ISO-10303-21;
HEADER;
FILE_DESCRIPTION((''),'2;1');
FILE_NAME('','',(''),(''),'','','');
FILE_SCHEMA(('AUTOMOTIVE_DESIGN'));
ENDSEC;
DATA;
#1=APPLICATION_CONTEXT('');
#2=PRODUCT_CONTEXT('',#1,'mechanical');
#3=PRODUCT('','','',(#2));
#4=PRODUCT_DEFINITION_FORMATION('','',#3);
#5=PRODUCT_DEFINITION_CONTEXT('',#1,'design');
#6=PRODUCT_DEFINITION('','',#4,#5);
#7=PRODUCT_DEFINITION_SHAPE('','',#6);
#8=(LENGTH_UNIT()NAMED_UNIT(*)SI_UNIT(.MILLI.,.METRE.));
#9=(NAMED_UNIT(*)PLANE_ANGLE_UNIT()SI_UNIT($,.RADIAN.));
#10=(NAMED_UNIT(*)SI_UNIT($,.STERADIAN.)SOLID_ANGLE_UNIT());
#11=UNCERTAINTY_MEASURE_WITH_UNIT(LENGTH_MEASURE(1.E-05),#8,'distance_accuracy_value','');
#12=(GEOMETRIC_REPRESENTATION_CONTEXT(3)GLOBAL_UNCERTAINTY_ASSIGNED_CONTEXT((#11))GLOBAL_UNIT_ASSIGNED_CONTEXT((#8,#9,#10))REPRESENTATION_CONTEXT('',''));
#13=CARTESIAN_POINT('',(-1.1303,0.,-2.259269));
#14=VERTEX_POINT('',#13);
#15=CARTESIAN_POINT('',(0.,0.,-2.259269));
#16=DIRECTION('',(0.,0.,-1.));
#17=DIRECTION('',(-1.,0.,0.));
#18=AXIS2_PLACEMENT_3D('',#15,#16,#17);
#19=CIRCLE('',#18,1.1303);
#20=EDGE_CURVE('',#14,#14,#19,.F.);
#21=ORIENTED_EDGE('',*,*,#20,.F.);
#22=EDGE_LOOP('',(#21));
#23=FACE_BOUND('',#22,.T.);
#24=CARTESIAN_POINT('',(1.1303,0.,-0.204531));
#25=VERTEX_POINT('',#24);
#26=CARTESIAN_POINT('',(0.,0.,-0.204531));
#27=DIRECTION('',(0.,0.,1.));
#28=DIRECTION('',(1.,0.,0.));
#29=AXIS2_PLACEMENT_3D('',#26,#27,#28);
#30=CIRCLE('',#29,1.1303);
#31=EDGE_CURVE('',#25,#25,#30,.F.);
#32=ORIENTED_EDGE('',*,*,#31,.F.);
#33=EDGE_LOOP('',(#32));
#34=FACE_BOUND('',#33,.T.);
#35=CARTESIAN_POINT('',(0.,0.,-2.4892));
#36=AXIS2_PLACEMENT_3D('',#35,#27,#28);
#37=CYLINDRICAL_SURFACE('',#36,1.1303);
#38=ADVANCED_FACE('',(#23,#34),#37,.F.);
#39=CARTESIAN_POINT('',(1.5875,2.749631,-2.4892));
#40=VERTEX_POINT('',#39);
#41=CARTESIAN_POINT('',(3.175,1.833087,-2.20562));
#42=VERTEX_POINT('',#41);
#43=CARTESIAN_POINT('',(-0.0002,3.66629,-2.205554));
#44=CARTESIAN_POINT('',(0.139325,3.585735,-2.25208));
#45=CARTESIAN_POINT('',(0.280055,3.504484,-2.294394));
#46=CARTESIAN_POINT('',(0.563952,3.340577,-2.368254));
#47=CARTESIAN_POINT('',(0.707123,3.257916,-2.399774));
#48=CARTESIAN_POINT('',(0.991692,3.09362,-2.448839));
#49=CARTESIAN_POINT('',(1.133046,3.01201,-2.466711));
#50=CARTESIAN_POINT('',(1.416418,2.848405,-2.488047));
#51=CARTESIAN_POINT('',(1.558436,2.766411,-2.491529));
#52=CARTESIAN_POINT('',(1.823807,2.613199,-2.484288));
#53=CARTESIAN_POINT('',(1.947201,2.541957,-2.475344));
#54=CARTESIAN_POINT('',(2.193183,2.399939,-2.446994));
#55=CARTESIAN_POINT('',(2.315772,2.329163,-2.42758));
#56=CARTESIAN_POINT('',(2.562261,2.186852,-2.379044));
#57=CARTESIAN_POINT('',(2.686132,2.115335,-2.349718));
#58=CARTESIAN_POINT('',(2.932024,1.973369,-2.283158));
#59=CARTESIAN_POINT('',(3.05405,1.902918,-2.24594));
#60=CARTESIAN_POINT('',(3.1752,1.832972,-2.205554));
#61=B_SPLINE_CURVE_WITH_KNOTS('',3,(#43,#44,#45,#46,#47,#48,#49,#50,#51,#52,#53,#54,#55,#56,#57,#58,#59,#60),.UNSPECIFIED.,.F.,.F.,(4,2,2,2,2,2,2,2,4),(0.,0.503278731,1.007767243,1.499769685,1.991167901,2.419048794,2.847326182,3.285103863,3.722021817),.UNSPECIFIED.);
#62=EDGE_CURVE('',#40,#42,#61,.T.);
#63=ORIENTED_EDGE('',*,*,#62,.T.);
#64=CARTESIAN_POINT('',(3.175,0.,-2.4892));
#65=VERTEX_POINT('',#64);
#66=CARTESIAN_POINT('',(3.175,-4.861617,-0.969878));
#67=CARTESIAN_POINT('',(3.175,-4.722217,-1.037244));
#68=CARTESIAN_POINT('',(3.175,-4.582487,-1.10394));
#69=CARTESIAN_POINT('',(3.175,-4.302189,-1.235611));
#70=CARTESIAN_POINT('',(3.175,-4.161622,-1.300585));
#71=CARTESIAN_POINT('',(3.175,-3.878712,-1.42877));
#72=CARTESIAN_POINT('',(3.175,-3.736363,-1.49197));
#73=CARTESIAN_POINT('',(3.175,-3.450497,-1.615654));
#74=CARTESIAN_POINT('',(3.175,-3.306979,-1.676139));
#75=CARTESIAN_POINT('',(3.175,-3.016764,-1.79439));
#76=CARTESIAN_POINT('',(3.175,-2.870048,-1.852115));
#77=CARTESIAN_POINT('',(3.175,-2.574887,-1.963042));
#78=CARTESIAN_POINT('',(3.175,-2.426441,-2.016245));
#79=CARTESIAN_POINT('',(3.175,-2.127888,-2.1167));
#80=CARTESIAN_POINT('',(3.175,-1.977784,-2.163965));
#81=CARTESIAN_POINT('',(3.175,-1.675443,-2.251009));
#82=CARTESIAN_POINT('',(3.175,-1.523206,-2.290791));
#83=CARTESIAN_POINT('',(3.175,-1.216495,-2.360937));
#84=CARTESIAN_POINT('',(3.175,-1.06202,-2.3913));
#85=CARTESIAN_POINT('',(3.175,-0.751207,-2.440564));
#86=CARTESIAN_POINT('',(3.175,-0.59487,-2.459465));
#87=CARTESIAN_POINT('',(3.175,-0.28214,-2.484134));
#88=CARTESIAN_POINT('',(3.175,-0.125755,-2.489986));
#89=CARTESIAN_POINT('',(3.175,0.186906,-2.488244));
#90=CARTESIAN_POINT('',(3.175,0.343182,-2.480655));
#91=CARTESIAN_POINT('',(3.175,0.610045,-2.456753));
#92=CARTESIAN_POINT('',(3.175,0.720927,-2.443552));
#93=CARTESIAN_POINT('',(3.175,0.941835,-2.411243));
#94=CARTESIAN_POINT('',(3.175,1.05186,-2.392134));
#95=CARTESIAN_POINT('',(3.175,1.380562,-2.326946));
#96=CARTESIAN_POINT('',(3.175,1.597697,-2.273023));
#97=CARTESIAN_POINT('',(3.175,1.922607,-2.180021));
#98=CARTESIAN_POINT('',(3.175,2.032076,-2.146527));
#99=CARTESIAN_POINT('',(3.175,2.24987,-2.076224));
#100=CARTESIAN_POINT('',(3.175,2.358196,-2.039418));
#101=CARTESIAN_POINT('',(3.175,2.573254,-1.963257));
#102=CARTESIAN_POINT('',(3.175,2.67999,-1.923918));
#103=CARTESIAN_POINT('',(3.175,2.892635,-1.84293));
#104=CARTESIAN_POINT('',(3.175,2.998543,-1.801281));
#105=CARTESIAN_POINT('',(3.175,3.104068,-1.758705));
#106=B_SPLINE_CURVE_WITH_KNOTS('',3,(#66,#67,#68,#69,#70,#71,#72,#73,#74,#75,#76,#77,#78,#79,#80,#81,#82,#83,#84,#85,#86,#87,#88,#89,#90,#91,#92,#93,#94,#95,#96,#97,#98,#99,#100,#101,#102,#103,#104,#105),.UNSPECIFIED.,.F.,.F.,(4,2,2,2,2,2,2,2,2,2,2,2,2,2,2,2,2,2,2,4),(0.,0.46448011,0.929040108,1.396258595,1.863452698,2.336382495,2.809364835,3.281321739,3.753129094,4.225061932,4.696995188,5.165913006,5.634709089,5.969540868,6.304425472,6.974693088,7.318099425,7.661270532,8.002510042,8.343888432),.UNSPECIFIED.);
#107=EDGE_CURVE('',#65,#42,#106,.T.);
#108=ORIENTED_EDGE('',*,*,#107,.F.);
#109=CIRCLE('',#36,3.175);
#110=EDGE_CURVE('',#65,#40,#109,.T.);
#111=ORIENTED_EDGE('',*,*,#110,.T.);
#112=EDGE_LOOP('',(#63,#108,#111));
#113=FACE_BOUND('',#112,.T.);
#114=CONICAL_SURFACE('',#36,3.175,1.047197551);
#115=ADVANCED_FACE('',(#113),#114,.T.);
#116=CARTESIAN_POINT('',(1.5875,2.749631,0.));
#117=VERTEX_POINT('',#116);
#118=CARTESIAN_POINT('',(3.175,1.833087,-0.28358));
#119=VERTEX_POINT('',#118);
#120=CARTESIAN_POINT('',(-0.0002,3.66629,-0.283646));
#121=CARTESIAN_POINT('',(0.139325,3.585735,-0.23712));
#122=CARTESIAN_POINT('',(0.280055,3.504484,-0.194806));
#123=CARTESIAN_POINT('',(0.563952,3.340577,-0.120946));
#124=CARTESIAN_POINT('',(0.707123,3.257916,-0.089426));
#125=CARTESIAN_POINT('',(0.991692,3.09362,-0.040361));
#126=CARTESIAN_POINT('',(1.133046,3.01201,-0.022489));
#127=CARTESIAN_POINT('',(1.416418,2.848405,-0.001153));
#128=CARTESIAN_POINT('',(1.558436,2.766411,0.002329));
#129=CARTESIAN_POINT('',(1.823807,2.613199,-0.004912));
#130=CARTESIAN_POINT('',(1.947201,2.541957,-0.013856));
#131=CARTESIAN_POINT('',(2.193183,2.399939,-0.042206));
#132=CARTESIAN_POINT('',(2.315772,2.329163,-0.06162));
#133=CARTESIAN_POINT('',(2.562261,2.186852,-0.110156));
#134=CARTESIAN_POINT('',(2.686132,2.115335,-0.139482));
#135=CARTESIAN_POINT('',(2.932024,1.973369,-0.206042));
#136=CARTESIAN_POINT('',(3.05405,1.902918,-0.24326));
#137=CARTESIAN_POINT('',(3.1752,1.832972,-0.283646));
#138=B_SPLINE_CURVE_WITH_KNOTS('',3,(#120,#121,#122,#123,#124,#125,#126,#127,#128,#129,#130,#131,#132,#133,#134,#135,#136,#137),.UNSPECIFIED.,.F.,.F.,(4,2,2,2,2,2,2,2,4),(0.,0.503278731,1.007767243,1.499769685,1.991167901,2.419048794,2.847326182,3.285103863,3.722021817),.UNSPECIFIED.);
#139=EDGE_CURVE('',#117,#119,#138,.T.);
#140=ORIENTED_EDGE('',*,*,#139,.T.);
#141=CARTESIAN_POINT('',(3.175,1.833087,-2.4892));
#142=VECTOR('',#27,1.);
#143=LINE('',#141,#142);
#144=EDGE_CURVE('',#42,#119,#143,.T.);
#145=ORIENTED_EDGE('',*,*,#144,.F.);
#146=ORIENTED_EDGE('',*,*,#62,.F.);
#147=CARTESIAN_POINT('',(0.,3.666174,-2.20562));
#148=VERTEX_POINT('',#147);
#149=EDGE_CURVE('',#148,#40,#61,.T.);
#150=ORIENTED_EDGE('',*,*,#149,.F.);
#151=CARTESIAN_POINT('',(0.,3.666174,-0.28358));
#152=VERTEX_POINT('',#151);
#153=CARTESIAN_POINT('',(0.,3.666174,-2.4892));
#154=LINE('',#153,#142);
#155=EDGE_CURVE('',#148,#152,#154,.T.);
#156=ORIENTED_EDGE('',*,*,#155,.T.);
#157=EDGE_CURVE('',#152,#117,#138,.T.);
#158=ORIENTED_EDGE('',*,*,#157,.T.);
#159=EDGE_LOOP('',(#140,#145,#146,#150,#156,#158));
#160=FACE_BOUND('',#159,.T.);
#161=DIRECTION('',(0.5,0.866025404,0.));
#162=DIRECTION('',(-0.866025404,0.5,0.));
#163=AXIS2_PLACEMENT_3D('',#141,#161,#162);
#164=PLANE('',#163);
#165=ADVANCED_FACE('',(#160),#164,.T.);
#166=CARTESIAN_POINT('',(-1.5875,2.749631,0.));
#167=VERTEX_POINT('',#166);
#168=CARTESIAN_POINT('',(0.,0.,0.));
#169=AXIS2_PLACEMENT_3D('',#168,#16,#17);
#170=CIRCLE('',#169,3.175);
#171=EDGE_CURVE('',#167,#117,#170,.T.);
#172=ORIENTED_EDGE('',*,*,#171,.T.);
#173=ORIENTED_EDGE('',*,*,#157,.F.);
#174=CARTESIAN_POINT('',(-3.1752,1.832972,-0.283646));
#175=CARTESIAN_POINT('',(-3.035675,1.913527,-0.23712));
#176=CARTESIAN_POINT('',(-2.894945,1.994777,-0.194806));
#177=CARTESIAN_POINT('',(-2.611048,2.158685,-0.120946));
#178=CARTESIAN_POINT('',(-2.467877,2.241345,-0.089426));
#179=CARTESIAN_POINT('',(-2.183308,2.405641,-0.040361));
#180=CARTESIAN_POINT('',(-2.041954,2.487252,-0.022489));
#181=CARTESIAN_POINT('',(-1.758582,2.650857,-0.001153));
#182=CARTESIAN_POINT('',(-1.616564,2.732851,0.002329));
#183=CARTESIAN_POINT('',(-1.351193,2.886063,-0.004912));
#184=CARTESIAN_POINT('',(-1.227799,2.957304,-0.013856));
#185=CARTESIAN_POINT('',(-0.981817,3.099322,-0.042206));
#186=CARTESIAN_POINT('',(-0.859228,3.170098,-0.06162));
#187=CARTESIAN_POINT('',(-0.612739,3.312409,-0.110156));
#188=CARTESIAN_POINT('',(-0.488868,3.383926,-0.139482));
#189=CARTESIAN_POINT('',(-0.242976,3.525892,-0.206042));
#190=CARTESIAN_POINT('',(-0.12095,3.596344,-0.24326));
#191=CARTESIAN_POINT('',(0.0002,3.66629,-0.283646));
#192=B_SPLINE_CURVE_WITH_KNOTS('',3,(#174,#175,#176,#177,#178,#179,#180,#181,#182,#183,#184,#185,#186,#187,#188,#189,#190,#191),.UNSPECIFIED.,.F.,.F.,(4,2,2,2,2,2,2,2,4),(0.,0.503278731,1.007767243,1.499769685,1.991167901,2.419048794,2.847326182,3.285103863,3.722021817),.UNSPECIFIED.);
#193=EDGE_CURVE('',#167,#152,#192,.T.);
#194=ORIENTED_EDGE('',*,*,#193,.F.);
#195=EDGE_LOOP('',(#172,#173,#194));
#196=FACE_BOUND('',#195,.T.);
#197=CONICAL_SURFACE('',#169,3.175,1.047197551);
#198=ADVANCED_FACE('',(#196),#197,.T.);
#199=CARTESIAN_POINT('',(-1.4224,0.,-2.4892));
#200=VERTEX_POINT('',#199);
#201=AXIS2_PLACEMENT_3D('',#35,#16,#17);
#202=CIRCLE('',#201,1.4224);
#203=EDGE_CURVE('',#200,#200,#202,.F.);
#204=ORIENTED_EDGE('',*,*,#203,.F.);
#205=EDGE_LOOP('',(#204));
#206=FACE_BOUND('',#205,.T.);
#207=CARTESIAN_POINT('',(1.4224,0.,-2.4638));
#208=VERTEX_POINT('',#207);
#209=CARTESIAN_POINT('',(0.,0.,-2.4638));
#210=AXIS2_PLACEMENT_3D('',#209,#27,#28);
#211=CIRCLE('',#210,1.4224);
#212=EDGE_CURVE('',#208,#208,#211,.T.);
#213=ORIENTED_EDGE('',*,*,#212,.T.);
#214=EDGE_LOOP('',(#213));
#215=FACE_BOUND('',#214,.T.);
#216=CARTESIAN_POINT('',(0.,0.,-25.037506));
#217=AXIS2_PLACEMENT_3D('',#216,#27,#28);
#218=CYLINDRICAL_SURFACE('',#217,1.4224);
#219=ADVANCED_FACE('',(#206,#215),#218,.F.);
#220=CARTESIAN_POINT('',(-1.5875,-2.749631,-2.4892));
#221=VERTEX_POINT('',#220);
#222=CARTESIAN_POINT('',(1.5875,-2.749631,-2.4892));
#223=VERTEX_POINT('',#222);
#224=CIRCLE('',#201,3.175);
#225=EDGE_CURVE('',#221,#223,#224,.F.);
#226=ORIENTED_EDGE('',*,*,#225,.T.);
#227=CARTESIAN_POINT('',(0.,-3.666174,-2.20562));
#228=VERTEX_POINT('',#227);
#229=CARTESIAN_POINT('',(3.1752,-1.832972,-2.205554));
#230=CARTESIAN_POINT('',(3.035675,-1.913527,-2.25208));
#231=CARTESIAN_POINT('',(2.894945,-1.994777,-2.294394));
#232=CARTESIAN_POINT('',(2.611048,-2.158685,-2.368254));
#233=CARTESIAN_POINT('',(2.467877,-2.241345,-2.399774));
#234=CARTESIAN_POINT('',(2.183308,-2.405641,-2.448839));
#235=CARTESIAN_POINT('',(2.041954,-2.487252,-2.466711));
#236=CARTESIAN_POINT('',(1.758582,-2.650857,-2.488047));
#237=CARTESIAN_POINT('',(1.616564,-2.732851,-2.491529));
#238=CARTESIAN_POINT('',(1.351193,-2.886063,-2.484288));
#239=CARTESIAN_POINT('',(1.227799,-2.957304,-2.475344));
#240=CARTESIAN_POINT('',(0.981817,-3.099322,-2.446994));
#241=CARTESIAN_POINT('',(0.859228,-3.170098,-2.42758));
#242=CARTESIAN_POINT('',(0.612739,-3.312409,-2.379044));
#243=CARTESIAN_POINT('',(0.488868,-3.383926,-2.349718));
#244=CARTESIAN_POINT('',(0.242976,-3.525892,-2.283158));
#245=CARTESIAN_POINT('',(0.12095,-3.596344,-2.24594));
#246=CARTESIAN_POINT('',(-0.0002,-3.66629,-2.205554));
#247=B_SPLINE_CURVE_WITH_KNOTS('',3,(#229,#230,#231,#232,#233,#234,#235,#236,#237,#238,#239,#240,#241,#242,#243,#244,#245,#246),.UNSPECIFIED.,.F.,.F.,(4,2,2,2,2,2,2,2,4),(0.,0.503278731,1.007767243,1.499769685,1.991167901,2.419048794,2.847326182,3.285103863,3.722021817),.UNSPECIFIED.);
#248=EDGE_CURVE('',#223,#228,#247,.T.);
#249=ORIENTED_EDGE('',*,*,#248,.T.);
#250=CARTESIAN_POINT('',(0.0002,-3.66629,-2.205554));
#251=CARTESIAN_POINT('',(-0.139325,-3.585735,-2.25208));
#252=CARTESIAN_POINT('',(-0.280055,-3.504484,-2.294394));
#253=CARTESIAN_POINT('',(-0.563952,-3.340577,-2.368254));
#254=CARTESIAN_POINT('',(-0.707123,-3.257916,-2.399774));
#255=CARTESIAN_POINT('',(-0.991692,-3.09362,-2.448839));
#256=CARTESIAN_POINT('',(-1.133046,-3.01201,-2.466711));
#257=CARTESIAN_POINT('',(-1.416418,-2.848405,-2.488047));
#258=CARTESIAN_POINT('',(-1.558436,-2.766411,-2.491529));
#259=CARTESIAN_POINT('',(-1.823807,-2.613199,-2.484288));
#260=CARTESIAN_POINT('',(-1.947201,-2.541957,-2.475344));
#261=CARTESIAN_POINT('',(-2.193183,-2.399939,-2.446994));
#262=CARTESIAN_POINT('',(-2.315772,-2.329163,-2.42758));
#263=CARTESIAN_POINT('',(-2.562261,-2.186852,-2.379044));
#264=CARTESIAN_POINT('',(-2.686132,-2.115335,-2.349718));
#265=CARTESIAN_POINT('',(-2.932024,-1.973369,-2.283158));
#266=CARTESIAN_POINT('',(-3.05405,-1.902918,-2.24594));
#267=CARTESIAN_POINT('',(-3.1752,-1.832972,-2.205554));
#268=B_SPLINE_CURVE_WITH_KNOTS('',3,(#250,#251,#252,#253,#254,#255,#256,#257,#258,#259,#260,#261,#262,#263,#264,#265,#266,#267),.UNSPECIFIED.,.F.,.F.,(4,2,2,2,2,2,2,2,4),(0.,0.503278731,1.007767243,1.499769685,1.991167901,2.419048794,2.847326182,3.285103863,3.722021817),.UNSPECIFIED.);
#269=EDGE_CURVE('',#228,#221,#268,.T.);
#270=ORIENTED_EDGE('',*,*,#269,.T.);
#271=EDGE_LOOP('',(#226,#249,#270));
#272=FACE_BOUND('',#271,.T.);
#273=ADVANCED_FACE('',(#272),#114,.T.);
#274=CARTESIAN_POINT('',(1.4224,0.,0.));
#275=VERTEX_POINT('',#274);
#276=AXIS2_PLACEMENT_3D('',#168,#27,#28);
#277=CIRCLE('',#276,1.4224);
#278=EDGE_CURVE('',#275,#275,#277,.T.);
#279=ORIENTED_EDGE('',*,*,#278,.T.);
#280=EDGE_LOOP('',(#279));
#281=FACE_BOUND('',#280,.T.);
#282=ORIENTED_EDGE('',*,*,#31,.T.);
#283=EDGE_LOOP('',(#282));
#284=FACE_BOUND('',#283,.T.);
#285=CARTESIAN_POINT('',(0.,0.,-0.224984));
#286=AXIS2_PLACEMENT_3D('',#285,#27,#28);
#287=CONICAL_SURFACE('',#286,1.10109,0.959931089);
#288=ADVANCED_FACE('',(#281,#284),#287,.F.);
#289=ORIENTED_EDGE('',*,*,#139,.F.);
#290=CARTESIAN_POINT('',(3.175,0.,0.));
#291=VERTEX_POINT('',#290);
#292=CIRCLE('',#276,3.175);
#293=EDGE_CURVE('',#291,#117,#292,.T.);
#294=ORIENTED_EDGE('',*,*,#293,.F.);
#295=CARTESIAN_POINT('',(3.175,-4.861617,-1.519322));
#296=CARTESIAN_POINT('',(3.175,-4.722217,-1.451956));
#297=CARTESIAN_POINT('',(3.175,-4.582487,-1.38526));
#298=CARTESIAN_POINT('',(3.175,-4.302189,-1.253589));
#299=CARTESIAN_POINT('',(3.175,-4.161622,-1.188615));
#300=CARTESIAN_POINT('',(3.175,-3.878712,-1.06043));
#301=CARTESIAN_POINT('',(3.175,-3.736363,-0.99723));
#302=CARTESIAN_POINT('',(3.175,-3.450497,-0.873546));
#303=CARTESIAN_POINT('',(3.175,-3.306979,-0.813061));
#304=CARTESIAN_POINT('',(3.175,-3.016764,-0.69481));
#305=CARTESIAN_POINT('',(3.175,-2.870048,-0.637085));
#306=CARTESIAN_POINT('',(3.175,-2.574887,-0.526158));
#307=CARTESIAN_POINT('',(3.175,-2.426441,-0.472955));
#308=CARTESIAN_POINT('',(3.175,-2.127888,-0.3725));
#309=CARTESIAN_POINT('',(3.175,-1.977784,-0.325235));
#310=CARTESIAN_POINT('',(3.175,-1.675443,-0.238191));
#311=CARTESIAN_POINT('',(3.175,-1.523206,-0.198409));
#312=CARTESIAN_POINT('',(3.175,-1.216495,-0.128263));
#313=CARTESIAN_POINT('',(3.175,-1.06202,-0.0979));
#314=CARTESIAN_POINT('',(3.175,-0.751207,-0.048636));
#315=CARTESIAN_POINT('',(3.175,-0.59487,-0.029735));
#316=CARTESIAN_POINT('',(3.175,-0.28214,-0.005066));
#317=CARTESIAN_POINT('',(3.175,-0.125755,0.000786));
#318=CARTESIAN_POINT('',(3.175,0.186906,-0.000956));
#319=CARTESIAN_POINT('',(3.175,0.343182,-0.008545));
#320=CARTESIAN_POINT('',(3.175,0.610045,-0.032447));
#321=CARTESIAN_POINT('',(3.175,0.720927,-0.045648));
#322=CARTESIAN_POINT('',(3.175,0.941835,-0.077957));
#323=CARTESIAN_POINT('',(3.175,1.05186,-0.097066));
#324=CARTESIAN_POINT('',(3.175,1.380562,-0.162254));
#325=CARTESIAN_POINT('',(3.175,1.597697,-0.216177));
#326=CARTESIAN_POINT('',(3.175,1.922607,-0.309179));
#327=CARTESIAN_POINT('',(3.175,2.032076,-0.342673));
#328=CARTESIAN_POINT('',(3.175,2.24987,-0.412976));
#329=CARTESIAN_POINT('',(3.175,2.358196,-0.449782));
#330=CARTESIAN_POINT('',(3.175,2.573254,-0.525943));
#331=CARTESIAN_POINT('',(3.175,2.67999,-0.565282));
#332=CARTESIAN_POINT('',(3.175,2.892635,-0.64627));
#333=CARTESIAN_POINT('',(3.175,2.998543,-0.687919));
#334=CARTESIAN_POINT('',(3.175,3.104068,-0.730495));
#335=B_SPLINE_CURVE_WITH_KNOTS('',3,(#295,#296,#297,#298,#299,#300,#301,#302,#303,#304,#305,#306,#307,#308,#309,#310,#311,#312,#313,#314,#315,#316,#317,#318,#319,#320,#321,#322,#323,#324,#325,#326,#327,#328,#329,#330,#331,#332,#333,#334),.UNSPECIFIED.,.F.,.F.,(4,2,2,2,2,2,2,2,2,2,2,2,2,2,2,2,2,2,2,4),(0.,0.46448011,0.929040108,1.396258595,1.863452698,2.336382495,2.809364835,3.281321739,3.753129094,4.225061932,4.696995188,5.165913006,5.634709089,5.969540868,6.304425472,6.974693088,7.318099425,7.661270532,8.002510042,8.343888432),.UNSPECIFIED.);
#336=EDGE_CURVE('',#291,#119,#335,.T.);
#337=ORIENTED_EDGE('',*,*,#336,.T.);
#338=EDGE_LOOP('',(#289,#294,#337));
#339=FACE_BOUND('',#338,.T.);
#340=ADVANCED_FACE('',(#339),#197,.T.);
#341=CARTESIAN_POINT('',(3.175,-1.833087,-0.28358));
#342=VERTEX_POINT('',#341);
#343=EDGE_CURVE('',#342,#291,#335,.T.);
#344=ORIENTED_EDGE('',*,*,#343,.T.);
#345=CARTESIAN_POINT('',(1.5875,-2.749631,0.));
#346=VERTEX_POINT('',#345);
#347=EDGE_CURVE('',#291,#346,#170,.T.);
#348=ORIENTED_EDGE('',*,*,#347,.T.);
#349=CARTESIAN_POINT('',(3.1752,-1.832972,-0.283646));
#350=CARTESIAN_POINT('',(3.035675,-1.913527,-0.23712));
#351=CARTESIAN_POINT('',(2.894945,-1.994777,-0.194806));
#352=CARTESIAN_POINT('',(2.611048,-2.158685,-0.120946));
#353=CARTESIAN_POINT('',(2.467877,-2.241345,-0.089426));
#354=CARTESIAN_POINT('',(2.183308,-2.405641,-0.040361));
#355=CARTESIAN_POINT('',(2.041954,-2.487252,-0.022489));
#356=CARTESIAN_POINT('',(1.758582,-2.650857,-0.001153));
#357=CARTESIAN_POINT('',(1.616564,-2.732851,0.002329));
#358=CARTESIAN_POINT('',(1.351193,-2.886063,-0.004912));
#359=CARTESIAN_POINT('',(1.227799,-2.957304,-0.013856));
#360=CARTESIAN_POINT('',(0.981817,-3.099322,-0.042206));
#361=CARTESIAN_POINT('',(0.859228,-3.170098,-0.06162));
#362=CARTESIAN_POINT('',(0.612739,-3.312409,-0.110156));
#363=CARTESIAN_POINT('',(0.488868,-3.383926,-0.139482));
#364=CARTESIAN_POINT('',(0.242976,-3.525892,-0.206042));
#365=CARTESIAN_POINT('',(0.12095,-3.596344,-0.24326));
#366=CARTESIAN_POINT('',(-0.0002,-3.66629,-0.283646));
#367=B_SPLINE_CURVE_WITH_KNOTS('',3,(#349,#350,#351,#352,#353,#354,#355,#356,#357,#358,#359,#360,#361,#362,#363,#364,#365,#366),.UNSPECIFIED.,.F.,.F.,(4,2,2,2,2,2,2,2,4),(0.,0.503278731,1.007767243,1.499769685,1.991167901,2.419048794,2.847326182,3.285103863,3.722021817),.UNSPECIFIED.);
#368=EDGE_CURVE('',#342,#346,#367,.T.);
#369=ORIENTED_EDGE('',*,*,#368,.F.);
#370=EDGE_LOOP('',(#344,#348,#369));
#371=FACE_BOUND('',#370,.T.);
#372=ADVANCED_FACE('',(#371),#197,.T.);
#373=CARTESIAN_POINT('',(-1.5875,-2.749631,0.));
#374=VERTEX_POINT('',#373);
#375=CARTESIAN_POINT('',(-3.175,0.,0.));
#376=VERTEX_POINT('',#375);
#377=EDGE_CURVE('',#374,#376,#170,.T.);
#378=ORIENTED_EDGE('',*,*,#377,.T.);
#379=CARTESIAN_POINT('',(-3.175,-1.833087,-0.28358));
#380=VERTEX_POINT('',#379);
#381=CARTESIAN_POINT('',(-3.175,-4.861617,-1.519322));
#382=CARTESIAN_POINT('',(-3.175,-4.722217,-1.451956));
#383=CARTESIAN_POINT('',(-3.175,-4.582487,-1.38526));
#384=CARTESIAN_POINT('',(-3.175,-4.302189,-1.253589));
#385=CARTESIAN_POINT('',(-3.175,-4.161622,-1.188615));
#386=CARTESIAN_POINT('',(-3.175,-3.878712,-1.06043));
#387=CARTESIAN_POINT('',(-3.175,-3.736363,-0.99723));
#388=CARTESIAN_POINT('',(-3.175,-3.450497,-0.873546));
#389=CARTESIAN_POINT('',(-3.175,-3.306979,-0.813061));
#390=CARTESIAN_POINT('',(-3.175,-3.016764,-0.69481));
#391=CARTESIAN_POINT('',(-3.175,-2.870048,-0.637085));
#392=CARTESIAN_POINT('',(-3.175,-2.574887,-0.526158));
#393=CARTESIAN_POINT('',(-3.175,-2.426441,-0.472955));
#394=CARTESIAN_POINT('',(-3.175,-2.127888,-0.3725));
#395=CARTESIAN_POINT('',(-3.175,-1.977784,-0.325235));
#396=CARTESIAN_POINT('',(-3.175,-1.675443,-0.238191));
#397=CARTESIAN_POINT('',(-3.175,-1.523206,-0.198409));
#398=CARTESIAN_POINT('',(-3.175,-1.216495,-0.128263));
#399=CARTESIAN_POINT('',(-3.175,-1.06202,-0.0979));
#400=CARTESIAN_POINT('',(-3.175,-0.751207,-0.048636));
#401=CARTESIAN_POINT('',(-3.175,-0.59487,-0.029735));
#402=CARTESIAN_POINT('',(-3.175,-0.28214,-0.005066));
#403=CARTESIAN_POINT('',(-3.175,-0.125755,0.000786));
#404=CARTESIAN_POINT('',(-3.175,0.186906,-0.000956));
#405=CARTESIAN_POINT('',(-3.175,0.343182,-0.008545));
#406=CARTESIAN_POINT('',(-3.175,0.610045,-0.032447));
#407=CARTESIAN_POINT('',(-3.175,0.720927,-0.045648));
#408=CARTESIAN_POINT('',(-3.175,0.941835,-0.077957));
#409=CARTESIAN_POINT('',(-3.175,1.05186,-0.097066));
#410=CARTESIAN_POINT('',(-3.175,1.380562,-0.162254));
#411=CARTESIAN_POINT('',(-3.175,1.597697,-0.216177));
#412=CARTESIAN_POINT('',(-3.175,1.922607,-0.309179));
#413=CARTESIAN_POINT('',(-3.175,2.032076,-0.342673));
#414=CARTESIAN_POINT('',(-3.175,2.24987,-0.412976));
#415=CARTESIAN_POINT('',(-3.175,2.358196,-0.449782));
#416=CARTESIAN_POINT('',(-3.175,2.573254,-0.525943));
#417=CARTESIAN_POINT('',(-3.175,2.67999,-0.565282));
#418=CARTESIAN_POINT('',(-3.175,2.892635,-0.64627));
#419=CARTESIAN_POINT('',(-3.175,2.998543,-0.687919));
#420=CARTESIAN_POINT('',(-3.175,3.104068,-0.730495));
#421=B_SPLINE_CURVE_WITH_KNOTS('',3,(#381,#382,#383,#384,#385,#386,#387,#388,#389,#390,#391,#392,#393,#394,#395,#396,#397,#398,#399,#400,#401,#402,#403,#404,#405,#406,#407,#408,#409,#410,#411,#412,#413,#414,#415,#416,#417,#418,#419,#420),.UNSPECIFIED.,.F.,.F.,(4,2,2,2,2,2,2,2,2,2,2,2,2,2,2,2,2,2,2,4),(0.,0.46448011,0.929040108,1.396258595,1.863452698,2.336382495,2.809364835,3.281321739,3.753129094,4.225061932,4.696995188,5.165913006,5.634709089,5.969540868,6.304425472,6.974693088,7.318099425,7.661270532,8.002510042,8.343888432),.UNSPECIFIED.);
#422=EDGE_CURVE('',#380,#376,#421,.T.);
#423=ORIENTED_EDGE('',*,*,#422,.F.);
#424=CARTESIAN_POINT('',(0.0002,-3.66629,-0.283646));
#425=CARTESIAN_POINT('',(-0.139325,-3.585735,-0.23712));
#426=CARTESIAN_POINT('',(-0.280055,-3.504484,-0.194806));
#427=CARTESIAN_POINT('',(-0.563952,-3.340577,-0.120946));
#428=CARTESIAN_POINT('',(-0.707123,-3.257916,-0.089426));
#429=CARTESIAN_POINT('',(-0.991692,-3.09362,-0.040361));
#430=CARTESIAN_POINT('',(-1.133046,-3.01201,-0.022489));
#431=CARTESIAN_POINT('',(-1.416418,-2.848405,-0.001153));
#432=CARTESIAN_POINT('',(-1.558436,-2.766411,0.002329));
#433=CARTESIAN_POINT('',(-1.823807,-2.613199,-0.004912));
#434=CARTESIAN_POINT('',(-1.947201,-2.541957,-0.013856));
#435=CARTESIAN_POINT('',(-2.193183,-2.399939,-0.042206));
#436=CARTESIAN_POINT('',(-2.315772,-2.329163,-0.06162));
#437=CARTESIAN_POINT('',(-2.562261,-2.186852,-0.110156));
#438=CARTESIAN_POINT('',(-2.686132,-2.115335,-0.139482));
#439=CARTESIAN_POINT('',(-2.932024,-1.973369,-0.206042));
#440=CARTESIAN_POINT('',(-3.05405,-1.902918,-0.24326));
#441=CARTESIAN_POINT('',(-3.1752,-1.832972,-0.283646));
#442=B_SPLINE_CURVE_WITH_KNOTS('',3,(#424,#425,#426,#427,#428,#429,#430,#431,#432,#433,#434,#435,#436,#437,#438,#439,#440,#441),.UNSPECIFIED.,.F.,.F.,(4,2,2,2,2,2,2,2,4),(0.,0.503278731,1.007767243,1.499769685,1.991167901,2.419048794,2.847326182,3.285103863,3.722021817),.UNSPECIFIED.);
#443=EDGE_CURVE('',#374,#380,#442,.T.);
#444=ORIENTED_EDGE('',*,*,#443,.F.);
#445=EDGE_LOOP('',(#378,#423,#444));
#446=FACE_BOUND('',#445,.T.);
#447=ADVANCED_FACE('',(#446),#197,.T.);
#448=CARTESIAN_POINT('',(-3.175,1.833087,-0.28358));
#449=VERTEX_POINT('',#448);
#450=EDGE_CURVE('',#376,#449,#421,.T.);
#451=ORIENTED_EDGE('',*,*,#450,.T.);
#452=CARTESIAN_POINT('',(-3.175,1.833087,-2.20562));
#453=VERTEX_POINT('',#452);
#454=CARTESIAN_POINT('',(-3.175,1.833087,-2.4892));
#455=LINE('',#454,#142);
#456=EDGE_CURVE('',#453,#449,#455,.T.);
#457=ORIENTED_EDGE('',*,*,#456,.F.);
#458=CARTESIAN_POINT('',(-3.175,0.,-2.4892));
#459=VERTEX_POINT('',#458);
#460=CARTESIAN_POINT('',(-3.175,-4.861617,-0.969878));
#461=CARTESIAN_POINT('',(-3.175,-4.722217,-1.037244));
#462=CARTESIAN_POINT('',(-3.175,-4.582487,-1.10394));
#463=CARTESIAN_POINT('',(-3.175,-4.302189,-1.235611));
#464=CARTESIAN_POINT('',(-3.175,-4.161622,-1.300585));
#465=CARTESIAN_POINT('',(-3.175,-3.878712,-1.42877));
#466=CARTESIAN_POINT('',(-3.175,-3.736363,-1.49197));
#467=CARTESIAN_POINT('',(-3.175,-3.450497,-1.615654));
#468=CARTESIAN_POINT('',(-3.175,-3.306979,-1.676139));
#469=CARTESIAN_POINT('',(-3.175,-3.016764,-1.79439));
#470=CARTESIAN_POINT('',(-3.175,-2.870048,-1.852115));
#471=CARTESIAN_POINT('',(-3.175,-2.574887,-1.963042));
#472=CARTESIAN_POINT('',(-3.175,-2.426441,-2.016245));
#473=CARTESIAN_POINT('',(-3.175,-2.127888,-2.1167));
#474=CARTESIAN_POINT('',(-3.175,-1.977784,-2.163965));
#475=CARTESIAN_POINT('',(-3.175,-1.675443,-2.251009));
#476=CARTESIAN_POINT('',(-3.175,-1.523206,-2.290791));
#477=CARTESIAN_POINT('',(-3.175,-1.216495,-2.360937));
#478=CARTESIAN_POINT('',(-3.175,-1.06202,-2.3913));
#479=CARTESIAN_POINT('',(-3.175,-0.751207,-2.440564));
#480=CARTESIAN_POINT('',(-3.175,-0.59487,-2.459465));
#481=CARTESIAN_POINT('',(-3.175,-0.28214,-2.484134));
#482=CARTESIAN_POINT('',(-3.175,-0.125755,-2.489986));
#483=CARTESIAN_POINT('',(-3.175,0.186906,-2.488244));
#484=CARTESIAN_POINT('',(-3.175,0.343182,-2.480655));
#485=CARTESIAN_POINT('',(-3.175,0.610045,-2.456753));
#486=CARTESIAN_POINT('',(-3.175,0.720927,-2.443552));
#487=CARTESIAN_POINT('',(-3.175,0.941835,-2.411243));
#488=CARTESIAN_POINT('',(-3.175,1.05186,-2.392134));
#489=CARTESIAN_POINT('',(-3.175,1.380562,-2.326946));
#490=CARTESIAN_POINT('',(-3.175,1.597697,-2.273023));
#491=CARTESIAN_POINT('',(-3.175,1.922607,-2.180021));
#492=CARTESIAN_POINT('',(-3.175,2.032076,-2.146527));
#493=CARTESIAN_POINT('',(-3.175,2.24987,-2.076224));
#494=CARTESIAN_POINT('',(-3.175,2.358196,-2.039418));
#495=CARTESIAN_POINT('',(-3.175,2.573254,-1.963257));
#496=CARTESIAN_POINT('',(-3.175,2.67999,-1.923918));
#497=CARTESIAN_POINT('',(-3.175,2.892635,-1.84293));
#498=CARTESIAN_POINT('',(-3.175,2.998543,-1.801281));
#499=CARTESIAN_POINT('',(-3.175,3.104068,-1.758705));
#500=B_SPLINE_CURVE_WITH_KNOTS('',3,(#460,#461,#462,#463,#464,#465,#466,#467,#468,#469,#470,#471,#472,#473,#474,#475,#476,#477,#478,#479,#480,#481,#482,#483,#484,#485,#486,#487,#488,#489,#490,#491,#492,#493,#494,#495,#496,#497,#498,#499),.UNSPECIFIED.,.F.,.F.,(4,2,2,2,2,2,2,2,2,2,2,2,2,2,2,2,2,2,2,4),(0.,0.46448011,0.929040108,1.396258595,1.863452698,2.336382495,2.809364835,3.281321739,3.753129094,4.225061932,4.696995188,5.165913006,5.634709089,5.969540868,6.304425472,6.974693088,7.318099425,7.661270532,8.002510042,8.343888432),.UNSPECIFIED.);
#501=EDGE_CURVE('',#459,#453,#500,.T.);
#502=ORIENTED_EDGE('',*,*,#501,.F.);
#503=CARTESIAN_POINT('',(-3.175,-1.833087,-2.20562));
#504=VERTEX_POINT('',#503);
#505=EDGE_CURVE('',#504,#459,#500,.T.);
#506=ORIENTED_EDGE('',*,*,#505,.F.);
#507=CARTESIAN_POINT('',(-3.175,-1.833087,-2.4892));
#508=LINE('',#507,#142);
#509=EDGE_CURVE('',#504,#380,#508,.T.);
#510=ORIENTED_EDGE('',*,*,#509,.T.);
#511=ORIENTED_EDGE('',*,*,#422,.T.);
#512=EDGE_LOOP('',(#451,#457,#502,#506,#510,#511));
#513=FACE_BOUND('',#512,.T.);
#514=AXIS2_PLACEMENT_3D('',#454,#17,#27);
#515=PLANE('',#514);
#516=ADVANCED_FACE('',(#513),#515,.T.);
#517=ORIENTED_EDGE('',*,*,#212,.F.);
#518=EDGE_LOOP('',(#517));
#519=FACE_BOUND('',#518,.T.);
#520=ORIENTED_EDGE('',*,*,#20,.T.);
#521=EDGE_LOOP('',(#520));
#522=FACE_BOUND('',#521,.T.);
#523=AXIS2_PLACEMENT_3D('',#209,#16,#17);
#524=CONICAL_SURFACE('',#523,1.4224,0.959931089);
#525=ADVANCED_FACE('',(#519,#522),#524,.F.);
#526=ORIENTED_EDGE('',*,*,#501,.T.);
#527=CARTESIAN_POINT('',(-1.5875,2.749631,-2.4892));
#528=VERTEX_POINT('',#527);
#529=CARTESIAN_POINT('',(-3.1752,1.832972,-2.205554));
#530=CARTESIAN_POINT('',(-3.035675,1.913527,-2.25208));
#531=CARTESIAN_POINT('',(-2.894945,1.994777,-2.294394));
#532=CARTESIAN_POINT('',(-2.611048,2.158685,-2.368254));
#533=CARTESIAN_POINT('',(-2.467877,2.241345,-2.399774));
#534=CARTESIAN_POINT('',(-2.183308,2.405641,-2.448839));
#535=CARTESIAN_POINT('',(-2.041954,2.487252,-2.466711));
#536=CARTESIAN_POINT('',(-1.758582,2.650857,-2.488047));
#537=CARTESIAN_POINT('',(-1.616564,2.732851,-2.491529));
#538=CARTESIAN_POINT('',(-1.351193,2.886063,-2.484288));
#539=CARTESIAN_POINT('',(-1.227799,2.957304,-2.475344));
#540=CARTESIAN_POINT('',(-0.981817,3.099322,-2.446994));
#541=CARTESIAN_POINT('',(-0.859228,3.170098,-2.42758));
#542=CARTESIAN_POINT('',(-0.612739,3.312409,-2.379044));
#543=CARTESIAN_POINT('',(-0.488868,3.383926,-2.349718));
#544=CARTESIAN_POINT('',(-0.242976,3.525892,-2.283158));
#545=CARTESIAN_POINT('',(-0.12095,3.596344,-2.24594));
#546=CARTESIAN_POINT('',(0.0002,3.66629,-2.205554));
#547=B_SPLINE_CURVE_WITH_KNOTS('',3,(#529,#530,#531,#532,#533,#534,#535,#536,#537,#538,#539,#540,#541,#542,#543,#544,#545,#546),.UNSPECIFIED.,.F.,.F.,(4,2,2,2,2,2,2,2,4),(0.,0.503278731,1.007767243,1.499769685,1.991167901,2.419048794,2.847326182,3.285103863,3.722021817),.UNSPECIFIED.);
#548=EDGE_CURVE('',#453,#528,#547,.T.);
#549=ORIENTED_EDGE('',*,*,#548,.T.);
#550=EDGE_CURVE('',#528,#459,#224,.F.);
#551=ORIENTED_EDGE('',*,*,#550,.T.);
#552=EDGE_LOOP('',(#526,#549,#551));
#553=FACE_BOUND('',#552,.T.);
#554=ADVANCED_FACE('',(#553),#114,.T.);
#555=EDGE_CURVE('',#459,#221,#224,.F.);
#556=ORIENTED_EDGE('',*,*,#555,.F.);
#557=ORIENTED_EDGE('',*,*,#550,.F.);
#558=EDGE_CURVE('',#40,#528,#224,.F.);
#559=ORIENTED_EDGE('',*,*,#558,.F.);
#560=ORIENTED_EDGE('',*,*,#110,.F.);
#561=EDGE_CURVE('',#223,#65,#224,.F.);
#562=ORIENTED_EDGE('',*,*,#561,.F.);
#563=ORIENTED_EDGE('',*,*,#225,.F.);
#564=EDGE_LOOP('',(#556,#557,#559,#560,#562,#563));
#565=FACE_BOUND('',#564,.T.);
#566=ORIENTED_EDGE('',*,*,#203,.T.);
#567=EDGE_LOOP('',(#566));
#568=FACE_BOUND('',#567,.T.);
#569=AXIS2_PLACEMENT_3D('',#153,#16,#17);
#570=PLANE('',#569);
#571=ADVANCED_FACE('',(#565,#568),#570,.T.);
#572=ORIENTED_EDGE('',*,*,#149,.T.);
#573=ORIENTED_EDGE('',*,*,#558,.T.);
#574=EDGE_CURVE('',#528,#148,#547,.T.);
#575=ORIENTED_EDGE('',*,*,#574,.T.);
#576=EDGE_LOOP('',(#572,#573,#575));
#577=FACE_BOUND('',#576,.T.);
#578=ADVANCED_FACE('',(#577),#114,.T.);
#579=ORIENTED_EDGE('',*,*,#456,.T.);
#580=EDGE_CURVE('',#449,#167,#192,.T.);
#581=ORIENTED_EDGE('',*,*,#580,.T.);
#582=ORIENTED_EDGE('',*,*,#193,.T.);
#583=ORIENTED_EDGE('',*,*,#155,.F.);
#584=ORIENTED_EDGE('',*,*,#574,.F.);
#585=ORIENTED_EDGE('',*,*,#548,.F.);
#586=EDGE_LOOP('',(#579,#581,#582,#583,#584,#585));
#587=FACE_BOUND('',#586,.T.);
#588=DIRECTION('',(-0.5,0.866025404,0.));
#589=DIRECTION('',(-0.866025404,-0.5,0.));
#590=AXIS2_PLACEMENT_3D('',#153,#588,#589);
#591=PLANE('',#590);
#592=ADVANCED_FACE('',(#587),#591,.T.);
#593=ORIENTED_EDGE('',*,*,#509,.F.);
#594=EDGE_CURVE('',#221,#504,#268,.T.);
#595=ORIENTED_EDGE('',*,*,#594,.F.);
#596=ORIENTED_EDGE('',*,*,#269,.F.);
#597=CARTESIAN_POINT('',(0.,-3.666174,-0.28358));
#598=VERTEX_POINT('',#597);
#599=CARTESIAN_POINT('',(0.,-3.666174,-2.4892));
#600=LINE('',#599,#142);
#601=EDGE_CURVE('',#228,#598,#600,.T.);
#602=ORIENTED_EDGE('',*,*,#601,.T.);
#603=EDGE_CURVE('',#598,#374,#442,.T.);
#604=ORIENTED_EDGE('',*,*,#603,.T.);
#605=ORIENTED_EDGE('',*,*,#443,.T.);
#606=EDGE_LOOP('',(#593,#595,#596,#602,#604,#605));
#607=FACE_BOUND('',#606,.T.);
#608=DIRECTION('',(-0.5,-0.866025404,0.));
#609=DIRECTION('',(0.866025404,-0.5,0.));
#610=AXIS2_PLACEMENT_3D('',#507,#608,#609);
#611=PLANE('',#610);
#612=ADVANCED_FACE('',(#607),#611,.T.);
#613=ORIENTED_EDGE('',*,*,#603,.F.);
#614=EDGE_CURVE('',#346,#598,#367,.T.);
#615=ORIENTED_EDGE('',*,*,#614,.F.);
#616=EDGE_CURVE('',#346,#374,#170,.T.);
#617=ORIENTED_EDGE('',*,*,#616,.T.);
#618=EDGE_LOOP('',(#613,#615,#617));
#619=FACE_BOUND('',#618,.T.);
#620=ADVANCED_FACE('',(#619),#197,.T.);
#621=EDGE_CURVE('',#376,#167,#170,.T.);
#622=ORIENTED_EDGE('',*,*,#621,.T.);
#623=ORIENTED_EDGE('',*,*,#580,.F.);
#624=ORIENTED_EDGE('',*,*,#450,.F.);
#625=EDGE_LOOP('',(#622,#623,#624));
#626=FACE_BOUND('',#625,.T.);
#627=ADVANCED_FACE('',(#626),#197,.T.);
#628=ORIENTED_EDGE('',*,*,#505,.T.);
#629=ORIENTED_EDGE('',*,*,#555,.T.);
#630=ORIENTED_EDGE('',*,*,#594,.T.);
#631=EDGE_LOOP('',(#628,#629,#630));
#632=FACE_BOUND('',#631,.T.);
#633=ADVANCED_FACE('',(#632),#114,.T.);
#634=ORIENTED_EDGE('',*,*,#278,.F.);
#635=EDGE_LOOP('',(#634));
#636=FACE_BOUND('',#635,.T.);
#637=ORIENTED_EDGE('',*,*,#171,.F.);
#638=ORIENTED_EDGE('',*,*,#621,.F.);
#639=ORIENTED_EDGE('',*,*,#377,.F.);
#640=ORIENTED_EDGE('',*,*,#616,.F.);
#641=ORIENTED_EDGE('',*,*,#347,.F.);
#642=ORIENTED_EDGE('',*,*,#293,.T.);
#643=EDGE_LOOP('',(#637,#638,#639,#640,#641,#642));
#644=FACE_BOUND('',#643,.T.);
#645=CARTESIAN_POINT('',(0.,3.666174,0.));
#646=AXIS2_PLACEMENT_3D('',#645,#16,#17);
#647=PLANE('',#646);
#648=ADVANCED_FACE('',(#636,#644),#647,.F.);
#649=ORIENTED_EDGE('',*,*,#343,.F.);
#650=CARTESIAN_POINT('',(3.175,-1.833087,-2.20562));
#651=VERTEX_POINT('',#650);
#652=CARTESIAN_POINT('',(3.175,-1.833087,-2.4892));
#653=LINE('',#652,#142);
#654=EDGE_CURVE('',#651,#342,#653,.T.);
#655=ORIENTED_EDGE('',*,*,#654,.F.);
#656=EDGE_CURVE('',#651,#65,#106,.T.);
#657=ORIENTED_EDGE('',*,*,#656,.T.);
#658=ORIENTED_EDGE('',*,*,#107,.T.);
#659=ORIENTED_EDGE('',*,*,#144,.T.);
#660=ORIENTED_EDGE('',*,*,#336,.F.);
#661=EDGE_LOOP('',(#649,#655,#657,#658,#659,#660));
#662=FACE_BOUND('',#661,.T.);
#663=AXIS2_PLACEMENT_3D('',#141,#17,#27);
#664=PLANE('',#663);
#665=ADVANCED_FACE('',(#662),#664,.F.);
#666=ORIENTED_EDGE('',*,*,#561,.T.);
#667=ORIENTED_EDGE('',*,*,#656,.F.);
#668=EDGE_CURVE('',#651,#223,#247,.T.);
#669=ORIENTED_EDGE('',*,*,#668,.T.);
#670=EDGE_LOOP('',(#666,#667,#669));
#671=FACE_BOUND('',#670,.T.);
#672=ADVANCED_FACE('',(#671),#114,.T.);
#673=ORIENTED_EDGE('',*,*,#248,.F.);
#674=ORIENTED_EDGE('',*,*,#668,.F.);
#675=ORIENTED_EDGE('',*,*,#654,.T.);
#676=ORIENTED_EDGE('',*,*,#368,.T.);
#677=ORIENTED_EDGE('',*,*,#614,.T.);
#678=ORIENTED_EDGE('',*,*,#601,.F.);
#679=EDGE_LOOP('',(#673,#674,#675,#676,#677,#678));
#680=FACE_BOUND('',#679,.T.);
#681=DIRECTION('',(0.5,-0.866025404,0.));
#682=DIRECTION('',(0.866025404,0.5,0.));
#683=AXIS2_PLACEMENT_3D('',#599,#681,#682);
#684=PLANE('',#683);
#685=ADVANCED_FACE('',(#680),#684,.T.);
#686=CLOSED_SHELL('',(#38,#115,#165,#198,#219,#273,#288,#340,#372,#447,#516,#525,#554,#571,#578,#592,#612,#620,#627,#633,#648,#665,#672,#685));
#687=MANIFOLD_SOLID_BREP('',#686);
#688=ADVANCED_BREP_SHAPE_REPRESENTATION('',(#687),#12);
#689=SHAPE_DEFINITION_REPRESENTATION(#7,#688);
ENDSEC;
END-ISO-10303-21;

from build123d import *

# Parameters (mm, degrees)
BASENUT_START = -2.4892
BASENUTSKE_R  = 1.1303
BASENUT_DEPTH = 2.4892


with BuildPart() as part:
    # BaseNutSke → BaseNut (new body)
    with BuildSketch(Plane.XY.offset(BASENUT_START)):
        Polygon((3.175, 1.833087105), (3.175, -1.833087105), (0, -3.666174209), (-3.175, -1.833087105), (-3.175, 1.833087105), (0, 3.666174209), align=None)
        Circle(BASENUTSKE_R, mode=Mode.SUBTRACT)
    extrude(amount=BASENUT_DEPTH)

    # Sketch3 → Double-Chamfer (revolve, cut)
    with BuildSketch(Plane(origin=(0, 0, 0), x_dir=(0, 0, -1), z_dir=(1, 0, 0))):
        Polygon((2.4892, 3.175), (2.205620438, 3.666174209), (2.205620438, 16.366174209), (15.1892, 16.366174209), (15.1892, 3.175), align=None)
        Polygon((0.283579562, 16.366174209), (-12.7, 16.366174209), (-12.7, 3.175), (0, 3.175), (0.283579562, 3.666174209), align=None)
    revolve(axis=Axis((0, 0, 0), (0, 0, -1)), mode=Mode.SUBTRACT)

    # EndChamferSketch → EndChamfer (revolve, cut)
    with BuildSketch(Plane(origin=(0, 0, 0), x_dir=(0, 0, -1), z_dir=(1, 0, 0)), mode=Mode.PRIVATE) as endchamfer_sk:
        Polygon((2.4638, 1.4224), (2.238816316, 1.10109), (2.5146, 1.10109), (2.5146, 1.4224), align=None)
        Polygon((-0.0508, 1.4224), (0, 1.4224), (0.224983684, 1.10109), (-0.0508, 1.10109), align=None)
    revolve(endchamfer_sk.sketch.rotate(Axis((0, 0, -25.037505729), (0, 0, -1)), 90), axis=Axis((0, 0, -25.037505729), (0, 0, -1)), mode=Mode.SUBTRACT)


solid = part.part
